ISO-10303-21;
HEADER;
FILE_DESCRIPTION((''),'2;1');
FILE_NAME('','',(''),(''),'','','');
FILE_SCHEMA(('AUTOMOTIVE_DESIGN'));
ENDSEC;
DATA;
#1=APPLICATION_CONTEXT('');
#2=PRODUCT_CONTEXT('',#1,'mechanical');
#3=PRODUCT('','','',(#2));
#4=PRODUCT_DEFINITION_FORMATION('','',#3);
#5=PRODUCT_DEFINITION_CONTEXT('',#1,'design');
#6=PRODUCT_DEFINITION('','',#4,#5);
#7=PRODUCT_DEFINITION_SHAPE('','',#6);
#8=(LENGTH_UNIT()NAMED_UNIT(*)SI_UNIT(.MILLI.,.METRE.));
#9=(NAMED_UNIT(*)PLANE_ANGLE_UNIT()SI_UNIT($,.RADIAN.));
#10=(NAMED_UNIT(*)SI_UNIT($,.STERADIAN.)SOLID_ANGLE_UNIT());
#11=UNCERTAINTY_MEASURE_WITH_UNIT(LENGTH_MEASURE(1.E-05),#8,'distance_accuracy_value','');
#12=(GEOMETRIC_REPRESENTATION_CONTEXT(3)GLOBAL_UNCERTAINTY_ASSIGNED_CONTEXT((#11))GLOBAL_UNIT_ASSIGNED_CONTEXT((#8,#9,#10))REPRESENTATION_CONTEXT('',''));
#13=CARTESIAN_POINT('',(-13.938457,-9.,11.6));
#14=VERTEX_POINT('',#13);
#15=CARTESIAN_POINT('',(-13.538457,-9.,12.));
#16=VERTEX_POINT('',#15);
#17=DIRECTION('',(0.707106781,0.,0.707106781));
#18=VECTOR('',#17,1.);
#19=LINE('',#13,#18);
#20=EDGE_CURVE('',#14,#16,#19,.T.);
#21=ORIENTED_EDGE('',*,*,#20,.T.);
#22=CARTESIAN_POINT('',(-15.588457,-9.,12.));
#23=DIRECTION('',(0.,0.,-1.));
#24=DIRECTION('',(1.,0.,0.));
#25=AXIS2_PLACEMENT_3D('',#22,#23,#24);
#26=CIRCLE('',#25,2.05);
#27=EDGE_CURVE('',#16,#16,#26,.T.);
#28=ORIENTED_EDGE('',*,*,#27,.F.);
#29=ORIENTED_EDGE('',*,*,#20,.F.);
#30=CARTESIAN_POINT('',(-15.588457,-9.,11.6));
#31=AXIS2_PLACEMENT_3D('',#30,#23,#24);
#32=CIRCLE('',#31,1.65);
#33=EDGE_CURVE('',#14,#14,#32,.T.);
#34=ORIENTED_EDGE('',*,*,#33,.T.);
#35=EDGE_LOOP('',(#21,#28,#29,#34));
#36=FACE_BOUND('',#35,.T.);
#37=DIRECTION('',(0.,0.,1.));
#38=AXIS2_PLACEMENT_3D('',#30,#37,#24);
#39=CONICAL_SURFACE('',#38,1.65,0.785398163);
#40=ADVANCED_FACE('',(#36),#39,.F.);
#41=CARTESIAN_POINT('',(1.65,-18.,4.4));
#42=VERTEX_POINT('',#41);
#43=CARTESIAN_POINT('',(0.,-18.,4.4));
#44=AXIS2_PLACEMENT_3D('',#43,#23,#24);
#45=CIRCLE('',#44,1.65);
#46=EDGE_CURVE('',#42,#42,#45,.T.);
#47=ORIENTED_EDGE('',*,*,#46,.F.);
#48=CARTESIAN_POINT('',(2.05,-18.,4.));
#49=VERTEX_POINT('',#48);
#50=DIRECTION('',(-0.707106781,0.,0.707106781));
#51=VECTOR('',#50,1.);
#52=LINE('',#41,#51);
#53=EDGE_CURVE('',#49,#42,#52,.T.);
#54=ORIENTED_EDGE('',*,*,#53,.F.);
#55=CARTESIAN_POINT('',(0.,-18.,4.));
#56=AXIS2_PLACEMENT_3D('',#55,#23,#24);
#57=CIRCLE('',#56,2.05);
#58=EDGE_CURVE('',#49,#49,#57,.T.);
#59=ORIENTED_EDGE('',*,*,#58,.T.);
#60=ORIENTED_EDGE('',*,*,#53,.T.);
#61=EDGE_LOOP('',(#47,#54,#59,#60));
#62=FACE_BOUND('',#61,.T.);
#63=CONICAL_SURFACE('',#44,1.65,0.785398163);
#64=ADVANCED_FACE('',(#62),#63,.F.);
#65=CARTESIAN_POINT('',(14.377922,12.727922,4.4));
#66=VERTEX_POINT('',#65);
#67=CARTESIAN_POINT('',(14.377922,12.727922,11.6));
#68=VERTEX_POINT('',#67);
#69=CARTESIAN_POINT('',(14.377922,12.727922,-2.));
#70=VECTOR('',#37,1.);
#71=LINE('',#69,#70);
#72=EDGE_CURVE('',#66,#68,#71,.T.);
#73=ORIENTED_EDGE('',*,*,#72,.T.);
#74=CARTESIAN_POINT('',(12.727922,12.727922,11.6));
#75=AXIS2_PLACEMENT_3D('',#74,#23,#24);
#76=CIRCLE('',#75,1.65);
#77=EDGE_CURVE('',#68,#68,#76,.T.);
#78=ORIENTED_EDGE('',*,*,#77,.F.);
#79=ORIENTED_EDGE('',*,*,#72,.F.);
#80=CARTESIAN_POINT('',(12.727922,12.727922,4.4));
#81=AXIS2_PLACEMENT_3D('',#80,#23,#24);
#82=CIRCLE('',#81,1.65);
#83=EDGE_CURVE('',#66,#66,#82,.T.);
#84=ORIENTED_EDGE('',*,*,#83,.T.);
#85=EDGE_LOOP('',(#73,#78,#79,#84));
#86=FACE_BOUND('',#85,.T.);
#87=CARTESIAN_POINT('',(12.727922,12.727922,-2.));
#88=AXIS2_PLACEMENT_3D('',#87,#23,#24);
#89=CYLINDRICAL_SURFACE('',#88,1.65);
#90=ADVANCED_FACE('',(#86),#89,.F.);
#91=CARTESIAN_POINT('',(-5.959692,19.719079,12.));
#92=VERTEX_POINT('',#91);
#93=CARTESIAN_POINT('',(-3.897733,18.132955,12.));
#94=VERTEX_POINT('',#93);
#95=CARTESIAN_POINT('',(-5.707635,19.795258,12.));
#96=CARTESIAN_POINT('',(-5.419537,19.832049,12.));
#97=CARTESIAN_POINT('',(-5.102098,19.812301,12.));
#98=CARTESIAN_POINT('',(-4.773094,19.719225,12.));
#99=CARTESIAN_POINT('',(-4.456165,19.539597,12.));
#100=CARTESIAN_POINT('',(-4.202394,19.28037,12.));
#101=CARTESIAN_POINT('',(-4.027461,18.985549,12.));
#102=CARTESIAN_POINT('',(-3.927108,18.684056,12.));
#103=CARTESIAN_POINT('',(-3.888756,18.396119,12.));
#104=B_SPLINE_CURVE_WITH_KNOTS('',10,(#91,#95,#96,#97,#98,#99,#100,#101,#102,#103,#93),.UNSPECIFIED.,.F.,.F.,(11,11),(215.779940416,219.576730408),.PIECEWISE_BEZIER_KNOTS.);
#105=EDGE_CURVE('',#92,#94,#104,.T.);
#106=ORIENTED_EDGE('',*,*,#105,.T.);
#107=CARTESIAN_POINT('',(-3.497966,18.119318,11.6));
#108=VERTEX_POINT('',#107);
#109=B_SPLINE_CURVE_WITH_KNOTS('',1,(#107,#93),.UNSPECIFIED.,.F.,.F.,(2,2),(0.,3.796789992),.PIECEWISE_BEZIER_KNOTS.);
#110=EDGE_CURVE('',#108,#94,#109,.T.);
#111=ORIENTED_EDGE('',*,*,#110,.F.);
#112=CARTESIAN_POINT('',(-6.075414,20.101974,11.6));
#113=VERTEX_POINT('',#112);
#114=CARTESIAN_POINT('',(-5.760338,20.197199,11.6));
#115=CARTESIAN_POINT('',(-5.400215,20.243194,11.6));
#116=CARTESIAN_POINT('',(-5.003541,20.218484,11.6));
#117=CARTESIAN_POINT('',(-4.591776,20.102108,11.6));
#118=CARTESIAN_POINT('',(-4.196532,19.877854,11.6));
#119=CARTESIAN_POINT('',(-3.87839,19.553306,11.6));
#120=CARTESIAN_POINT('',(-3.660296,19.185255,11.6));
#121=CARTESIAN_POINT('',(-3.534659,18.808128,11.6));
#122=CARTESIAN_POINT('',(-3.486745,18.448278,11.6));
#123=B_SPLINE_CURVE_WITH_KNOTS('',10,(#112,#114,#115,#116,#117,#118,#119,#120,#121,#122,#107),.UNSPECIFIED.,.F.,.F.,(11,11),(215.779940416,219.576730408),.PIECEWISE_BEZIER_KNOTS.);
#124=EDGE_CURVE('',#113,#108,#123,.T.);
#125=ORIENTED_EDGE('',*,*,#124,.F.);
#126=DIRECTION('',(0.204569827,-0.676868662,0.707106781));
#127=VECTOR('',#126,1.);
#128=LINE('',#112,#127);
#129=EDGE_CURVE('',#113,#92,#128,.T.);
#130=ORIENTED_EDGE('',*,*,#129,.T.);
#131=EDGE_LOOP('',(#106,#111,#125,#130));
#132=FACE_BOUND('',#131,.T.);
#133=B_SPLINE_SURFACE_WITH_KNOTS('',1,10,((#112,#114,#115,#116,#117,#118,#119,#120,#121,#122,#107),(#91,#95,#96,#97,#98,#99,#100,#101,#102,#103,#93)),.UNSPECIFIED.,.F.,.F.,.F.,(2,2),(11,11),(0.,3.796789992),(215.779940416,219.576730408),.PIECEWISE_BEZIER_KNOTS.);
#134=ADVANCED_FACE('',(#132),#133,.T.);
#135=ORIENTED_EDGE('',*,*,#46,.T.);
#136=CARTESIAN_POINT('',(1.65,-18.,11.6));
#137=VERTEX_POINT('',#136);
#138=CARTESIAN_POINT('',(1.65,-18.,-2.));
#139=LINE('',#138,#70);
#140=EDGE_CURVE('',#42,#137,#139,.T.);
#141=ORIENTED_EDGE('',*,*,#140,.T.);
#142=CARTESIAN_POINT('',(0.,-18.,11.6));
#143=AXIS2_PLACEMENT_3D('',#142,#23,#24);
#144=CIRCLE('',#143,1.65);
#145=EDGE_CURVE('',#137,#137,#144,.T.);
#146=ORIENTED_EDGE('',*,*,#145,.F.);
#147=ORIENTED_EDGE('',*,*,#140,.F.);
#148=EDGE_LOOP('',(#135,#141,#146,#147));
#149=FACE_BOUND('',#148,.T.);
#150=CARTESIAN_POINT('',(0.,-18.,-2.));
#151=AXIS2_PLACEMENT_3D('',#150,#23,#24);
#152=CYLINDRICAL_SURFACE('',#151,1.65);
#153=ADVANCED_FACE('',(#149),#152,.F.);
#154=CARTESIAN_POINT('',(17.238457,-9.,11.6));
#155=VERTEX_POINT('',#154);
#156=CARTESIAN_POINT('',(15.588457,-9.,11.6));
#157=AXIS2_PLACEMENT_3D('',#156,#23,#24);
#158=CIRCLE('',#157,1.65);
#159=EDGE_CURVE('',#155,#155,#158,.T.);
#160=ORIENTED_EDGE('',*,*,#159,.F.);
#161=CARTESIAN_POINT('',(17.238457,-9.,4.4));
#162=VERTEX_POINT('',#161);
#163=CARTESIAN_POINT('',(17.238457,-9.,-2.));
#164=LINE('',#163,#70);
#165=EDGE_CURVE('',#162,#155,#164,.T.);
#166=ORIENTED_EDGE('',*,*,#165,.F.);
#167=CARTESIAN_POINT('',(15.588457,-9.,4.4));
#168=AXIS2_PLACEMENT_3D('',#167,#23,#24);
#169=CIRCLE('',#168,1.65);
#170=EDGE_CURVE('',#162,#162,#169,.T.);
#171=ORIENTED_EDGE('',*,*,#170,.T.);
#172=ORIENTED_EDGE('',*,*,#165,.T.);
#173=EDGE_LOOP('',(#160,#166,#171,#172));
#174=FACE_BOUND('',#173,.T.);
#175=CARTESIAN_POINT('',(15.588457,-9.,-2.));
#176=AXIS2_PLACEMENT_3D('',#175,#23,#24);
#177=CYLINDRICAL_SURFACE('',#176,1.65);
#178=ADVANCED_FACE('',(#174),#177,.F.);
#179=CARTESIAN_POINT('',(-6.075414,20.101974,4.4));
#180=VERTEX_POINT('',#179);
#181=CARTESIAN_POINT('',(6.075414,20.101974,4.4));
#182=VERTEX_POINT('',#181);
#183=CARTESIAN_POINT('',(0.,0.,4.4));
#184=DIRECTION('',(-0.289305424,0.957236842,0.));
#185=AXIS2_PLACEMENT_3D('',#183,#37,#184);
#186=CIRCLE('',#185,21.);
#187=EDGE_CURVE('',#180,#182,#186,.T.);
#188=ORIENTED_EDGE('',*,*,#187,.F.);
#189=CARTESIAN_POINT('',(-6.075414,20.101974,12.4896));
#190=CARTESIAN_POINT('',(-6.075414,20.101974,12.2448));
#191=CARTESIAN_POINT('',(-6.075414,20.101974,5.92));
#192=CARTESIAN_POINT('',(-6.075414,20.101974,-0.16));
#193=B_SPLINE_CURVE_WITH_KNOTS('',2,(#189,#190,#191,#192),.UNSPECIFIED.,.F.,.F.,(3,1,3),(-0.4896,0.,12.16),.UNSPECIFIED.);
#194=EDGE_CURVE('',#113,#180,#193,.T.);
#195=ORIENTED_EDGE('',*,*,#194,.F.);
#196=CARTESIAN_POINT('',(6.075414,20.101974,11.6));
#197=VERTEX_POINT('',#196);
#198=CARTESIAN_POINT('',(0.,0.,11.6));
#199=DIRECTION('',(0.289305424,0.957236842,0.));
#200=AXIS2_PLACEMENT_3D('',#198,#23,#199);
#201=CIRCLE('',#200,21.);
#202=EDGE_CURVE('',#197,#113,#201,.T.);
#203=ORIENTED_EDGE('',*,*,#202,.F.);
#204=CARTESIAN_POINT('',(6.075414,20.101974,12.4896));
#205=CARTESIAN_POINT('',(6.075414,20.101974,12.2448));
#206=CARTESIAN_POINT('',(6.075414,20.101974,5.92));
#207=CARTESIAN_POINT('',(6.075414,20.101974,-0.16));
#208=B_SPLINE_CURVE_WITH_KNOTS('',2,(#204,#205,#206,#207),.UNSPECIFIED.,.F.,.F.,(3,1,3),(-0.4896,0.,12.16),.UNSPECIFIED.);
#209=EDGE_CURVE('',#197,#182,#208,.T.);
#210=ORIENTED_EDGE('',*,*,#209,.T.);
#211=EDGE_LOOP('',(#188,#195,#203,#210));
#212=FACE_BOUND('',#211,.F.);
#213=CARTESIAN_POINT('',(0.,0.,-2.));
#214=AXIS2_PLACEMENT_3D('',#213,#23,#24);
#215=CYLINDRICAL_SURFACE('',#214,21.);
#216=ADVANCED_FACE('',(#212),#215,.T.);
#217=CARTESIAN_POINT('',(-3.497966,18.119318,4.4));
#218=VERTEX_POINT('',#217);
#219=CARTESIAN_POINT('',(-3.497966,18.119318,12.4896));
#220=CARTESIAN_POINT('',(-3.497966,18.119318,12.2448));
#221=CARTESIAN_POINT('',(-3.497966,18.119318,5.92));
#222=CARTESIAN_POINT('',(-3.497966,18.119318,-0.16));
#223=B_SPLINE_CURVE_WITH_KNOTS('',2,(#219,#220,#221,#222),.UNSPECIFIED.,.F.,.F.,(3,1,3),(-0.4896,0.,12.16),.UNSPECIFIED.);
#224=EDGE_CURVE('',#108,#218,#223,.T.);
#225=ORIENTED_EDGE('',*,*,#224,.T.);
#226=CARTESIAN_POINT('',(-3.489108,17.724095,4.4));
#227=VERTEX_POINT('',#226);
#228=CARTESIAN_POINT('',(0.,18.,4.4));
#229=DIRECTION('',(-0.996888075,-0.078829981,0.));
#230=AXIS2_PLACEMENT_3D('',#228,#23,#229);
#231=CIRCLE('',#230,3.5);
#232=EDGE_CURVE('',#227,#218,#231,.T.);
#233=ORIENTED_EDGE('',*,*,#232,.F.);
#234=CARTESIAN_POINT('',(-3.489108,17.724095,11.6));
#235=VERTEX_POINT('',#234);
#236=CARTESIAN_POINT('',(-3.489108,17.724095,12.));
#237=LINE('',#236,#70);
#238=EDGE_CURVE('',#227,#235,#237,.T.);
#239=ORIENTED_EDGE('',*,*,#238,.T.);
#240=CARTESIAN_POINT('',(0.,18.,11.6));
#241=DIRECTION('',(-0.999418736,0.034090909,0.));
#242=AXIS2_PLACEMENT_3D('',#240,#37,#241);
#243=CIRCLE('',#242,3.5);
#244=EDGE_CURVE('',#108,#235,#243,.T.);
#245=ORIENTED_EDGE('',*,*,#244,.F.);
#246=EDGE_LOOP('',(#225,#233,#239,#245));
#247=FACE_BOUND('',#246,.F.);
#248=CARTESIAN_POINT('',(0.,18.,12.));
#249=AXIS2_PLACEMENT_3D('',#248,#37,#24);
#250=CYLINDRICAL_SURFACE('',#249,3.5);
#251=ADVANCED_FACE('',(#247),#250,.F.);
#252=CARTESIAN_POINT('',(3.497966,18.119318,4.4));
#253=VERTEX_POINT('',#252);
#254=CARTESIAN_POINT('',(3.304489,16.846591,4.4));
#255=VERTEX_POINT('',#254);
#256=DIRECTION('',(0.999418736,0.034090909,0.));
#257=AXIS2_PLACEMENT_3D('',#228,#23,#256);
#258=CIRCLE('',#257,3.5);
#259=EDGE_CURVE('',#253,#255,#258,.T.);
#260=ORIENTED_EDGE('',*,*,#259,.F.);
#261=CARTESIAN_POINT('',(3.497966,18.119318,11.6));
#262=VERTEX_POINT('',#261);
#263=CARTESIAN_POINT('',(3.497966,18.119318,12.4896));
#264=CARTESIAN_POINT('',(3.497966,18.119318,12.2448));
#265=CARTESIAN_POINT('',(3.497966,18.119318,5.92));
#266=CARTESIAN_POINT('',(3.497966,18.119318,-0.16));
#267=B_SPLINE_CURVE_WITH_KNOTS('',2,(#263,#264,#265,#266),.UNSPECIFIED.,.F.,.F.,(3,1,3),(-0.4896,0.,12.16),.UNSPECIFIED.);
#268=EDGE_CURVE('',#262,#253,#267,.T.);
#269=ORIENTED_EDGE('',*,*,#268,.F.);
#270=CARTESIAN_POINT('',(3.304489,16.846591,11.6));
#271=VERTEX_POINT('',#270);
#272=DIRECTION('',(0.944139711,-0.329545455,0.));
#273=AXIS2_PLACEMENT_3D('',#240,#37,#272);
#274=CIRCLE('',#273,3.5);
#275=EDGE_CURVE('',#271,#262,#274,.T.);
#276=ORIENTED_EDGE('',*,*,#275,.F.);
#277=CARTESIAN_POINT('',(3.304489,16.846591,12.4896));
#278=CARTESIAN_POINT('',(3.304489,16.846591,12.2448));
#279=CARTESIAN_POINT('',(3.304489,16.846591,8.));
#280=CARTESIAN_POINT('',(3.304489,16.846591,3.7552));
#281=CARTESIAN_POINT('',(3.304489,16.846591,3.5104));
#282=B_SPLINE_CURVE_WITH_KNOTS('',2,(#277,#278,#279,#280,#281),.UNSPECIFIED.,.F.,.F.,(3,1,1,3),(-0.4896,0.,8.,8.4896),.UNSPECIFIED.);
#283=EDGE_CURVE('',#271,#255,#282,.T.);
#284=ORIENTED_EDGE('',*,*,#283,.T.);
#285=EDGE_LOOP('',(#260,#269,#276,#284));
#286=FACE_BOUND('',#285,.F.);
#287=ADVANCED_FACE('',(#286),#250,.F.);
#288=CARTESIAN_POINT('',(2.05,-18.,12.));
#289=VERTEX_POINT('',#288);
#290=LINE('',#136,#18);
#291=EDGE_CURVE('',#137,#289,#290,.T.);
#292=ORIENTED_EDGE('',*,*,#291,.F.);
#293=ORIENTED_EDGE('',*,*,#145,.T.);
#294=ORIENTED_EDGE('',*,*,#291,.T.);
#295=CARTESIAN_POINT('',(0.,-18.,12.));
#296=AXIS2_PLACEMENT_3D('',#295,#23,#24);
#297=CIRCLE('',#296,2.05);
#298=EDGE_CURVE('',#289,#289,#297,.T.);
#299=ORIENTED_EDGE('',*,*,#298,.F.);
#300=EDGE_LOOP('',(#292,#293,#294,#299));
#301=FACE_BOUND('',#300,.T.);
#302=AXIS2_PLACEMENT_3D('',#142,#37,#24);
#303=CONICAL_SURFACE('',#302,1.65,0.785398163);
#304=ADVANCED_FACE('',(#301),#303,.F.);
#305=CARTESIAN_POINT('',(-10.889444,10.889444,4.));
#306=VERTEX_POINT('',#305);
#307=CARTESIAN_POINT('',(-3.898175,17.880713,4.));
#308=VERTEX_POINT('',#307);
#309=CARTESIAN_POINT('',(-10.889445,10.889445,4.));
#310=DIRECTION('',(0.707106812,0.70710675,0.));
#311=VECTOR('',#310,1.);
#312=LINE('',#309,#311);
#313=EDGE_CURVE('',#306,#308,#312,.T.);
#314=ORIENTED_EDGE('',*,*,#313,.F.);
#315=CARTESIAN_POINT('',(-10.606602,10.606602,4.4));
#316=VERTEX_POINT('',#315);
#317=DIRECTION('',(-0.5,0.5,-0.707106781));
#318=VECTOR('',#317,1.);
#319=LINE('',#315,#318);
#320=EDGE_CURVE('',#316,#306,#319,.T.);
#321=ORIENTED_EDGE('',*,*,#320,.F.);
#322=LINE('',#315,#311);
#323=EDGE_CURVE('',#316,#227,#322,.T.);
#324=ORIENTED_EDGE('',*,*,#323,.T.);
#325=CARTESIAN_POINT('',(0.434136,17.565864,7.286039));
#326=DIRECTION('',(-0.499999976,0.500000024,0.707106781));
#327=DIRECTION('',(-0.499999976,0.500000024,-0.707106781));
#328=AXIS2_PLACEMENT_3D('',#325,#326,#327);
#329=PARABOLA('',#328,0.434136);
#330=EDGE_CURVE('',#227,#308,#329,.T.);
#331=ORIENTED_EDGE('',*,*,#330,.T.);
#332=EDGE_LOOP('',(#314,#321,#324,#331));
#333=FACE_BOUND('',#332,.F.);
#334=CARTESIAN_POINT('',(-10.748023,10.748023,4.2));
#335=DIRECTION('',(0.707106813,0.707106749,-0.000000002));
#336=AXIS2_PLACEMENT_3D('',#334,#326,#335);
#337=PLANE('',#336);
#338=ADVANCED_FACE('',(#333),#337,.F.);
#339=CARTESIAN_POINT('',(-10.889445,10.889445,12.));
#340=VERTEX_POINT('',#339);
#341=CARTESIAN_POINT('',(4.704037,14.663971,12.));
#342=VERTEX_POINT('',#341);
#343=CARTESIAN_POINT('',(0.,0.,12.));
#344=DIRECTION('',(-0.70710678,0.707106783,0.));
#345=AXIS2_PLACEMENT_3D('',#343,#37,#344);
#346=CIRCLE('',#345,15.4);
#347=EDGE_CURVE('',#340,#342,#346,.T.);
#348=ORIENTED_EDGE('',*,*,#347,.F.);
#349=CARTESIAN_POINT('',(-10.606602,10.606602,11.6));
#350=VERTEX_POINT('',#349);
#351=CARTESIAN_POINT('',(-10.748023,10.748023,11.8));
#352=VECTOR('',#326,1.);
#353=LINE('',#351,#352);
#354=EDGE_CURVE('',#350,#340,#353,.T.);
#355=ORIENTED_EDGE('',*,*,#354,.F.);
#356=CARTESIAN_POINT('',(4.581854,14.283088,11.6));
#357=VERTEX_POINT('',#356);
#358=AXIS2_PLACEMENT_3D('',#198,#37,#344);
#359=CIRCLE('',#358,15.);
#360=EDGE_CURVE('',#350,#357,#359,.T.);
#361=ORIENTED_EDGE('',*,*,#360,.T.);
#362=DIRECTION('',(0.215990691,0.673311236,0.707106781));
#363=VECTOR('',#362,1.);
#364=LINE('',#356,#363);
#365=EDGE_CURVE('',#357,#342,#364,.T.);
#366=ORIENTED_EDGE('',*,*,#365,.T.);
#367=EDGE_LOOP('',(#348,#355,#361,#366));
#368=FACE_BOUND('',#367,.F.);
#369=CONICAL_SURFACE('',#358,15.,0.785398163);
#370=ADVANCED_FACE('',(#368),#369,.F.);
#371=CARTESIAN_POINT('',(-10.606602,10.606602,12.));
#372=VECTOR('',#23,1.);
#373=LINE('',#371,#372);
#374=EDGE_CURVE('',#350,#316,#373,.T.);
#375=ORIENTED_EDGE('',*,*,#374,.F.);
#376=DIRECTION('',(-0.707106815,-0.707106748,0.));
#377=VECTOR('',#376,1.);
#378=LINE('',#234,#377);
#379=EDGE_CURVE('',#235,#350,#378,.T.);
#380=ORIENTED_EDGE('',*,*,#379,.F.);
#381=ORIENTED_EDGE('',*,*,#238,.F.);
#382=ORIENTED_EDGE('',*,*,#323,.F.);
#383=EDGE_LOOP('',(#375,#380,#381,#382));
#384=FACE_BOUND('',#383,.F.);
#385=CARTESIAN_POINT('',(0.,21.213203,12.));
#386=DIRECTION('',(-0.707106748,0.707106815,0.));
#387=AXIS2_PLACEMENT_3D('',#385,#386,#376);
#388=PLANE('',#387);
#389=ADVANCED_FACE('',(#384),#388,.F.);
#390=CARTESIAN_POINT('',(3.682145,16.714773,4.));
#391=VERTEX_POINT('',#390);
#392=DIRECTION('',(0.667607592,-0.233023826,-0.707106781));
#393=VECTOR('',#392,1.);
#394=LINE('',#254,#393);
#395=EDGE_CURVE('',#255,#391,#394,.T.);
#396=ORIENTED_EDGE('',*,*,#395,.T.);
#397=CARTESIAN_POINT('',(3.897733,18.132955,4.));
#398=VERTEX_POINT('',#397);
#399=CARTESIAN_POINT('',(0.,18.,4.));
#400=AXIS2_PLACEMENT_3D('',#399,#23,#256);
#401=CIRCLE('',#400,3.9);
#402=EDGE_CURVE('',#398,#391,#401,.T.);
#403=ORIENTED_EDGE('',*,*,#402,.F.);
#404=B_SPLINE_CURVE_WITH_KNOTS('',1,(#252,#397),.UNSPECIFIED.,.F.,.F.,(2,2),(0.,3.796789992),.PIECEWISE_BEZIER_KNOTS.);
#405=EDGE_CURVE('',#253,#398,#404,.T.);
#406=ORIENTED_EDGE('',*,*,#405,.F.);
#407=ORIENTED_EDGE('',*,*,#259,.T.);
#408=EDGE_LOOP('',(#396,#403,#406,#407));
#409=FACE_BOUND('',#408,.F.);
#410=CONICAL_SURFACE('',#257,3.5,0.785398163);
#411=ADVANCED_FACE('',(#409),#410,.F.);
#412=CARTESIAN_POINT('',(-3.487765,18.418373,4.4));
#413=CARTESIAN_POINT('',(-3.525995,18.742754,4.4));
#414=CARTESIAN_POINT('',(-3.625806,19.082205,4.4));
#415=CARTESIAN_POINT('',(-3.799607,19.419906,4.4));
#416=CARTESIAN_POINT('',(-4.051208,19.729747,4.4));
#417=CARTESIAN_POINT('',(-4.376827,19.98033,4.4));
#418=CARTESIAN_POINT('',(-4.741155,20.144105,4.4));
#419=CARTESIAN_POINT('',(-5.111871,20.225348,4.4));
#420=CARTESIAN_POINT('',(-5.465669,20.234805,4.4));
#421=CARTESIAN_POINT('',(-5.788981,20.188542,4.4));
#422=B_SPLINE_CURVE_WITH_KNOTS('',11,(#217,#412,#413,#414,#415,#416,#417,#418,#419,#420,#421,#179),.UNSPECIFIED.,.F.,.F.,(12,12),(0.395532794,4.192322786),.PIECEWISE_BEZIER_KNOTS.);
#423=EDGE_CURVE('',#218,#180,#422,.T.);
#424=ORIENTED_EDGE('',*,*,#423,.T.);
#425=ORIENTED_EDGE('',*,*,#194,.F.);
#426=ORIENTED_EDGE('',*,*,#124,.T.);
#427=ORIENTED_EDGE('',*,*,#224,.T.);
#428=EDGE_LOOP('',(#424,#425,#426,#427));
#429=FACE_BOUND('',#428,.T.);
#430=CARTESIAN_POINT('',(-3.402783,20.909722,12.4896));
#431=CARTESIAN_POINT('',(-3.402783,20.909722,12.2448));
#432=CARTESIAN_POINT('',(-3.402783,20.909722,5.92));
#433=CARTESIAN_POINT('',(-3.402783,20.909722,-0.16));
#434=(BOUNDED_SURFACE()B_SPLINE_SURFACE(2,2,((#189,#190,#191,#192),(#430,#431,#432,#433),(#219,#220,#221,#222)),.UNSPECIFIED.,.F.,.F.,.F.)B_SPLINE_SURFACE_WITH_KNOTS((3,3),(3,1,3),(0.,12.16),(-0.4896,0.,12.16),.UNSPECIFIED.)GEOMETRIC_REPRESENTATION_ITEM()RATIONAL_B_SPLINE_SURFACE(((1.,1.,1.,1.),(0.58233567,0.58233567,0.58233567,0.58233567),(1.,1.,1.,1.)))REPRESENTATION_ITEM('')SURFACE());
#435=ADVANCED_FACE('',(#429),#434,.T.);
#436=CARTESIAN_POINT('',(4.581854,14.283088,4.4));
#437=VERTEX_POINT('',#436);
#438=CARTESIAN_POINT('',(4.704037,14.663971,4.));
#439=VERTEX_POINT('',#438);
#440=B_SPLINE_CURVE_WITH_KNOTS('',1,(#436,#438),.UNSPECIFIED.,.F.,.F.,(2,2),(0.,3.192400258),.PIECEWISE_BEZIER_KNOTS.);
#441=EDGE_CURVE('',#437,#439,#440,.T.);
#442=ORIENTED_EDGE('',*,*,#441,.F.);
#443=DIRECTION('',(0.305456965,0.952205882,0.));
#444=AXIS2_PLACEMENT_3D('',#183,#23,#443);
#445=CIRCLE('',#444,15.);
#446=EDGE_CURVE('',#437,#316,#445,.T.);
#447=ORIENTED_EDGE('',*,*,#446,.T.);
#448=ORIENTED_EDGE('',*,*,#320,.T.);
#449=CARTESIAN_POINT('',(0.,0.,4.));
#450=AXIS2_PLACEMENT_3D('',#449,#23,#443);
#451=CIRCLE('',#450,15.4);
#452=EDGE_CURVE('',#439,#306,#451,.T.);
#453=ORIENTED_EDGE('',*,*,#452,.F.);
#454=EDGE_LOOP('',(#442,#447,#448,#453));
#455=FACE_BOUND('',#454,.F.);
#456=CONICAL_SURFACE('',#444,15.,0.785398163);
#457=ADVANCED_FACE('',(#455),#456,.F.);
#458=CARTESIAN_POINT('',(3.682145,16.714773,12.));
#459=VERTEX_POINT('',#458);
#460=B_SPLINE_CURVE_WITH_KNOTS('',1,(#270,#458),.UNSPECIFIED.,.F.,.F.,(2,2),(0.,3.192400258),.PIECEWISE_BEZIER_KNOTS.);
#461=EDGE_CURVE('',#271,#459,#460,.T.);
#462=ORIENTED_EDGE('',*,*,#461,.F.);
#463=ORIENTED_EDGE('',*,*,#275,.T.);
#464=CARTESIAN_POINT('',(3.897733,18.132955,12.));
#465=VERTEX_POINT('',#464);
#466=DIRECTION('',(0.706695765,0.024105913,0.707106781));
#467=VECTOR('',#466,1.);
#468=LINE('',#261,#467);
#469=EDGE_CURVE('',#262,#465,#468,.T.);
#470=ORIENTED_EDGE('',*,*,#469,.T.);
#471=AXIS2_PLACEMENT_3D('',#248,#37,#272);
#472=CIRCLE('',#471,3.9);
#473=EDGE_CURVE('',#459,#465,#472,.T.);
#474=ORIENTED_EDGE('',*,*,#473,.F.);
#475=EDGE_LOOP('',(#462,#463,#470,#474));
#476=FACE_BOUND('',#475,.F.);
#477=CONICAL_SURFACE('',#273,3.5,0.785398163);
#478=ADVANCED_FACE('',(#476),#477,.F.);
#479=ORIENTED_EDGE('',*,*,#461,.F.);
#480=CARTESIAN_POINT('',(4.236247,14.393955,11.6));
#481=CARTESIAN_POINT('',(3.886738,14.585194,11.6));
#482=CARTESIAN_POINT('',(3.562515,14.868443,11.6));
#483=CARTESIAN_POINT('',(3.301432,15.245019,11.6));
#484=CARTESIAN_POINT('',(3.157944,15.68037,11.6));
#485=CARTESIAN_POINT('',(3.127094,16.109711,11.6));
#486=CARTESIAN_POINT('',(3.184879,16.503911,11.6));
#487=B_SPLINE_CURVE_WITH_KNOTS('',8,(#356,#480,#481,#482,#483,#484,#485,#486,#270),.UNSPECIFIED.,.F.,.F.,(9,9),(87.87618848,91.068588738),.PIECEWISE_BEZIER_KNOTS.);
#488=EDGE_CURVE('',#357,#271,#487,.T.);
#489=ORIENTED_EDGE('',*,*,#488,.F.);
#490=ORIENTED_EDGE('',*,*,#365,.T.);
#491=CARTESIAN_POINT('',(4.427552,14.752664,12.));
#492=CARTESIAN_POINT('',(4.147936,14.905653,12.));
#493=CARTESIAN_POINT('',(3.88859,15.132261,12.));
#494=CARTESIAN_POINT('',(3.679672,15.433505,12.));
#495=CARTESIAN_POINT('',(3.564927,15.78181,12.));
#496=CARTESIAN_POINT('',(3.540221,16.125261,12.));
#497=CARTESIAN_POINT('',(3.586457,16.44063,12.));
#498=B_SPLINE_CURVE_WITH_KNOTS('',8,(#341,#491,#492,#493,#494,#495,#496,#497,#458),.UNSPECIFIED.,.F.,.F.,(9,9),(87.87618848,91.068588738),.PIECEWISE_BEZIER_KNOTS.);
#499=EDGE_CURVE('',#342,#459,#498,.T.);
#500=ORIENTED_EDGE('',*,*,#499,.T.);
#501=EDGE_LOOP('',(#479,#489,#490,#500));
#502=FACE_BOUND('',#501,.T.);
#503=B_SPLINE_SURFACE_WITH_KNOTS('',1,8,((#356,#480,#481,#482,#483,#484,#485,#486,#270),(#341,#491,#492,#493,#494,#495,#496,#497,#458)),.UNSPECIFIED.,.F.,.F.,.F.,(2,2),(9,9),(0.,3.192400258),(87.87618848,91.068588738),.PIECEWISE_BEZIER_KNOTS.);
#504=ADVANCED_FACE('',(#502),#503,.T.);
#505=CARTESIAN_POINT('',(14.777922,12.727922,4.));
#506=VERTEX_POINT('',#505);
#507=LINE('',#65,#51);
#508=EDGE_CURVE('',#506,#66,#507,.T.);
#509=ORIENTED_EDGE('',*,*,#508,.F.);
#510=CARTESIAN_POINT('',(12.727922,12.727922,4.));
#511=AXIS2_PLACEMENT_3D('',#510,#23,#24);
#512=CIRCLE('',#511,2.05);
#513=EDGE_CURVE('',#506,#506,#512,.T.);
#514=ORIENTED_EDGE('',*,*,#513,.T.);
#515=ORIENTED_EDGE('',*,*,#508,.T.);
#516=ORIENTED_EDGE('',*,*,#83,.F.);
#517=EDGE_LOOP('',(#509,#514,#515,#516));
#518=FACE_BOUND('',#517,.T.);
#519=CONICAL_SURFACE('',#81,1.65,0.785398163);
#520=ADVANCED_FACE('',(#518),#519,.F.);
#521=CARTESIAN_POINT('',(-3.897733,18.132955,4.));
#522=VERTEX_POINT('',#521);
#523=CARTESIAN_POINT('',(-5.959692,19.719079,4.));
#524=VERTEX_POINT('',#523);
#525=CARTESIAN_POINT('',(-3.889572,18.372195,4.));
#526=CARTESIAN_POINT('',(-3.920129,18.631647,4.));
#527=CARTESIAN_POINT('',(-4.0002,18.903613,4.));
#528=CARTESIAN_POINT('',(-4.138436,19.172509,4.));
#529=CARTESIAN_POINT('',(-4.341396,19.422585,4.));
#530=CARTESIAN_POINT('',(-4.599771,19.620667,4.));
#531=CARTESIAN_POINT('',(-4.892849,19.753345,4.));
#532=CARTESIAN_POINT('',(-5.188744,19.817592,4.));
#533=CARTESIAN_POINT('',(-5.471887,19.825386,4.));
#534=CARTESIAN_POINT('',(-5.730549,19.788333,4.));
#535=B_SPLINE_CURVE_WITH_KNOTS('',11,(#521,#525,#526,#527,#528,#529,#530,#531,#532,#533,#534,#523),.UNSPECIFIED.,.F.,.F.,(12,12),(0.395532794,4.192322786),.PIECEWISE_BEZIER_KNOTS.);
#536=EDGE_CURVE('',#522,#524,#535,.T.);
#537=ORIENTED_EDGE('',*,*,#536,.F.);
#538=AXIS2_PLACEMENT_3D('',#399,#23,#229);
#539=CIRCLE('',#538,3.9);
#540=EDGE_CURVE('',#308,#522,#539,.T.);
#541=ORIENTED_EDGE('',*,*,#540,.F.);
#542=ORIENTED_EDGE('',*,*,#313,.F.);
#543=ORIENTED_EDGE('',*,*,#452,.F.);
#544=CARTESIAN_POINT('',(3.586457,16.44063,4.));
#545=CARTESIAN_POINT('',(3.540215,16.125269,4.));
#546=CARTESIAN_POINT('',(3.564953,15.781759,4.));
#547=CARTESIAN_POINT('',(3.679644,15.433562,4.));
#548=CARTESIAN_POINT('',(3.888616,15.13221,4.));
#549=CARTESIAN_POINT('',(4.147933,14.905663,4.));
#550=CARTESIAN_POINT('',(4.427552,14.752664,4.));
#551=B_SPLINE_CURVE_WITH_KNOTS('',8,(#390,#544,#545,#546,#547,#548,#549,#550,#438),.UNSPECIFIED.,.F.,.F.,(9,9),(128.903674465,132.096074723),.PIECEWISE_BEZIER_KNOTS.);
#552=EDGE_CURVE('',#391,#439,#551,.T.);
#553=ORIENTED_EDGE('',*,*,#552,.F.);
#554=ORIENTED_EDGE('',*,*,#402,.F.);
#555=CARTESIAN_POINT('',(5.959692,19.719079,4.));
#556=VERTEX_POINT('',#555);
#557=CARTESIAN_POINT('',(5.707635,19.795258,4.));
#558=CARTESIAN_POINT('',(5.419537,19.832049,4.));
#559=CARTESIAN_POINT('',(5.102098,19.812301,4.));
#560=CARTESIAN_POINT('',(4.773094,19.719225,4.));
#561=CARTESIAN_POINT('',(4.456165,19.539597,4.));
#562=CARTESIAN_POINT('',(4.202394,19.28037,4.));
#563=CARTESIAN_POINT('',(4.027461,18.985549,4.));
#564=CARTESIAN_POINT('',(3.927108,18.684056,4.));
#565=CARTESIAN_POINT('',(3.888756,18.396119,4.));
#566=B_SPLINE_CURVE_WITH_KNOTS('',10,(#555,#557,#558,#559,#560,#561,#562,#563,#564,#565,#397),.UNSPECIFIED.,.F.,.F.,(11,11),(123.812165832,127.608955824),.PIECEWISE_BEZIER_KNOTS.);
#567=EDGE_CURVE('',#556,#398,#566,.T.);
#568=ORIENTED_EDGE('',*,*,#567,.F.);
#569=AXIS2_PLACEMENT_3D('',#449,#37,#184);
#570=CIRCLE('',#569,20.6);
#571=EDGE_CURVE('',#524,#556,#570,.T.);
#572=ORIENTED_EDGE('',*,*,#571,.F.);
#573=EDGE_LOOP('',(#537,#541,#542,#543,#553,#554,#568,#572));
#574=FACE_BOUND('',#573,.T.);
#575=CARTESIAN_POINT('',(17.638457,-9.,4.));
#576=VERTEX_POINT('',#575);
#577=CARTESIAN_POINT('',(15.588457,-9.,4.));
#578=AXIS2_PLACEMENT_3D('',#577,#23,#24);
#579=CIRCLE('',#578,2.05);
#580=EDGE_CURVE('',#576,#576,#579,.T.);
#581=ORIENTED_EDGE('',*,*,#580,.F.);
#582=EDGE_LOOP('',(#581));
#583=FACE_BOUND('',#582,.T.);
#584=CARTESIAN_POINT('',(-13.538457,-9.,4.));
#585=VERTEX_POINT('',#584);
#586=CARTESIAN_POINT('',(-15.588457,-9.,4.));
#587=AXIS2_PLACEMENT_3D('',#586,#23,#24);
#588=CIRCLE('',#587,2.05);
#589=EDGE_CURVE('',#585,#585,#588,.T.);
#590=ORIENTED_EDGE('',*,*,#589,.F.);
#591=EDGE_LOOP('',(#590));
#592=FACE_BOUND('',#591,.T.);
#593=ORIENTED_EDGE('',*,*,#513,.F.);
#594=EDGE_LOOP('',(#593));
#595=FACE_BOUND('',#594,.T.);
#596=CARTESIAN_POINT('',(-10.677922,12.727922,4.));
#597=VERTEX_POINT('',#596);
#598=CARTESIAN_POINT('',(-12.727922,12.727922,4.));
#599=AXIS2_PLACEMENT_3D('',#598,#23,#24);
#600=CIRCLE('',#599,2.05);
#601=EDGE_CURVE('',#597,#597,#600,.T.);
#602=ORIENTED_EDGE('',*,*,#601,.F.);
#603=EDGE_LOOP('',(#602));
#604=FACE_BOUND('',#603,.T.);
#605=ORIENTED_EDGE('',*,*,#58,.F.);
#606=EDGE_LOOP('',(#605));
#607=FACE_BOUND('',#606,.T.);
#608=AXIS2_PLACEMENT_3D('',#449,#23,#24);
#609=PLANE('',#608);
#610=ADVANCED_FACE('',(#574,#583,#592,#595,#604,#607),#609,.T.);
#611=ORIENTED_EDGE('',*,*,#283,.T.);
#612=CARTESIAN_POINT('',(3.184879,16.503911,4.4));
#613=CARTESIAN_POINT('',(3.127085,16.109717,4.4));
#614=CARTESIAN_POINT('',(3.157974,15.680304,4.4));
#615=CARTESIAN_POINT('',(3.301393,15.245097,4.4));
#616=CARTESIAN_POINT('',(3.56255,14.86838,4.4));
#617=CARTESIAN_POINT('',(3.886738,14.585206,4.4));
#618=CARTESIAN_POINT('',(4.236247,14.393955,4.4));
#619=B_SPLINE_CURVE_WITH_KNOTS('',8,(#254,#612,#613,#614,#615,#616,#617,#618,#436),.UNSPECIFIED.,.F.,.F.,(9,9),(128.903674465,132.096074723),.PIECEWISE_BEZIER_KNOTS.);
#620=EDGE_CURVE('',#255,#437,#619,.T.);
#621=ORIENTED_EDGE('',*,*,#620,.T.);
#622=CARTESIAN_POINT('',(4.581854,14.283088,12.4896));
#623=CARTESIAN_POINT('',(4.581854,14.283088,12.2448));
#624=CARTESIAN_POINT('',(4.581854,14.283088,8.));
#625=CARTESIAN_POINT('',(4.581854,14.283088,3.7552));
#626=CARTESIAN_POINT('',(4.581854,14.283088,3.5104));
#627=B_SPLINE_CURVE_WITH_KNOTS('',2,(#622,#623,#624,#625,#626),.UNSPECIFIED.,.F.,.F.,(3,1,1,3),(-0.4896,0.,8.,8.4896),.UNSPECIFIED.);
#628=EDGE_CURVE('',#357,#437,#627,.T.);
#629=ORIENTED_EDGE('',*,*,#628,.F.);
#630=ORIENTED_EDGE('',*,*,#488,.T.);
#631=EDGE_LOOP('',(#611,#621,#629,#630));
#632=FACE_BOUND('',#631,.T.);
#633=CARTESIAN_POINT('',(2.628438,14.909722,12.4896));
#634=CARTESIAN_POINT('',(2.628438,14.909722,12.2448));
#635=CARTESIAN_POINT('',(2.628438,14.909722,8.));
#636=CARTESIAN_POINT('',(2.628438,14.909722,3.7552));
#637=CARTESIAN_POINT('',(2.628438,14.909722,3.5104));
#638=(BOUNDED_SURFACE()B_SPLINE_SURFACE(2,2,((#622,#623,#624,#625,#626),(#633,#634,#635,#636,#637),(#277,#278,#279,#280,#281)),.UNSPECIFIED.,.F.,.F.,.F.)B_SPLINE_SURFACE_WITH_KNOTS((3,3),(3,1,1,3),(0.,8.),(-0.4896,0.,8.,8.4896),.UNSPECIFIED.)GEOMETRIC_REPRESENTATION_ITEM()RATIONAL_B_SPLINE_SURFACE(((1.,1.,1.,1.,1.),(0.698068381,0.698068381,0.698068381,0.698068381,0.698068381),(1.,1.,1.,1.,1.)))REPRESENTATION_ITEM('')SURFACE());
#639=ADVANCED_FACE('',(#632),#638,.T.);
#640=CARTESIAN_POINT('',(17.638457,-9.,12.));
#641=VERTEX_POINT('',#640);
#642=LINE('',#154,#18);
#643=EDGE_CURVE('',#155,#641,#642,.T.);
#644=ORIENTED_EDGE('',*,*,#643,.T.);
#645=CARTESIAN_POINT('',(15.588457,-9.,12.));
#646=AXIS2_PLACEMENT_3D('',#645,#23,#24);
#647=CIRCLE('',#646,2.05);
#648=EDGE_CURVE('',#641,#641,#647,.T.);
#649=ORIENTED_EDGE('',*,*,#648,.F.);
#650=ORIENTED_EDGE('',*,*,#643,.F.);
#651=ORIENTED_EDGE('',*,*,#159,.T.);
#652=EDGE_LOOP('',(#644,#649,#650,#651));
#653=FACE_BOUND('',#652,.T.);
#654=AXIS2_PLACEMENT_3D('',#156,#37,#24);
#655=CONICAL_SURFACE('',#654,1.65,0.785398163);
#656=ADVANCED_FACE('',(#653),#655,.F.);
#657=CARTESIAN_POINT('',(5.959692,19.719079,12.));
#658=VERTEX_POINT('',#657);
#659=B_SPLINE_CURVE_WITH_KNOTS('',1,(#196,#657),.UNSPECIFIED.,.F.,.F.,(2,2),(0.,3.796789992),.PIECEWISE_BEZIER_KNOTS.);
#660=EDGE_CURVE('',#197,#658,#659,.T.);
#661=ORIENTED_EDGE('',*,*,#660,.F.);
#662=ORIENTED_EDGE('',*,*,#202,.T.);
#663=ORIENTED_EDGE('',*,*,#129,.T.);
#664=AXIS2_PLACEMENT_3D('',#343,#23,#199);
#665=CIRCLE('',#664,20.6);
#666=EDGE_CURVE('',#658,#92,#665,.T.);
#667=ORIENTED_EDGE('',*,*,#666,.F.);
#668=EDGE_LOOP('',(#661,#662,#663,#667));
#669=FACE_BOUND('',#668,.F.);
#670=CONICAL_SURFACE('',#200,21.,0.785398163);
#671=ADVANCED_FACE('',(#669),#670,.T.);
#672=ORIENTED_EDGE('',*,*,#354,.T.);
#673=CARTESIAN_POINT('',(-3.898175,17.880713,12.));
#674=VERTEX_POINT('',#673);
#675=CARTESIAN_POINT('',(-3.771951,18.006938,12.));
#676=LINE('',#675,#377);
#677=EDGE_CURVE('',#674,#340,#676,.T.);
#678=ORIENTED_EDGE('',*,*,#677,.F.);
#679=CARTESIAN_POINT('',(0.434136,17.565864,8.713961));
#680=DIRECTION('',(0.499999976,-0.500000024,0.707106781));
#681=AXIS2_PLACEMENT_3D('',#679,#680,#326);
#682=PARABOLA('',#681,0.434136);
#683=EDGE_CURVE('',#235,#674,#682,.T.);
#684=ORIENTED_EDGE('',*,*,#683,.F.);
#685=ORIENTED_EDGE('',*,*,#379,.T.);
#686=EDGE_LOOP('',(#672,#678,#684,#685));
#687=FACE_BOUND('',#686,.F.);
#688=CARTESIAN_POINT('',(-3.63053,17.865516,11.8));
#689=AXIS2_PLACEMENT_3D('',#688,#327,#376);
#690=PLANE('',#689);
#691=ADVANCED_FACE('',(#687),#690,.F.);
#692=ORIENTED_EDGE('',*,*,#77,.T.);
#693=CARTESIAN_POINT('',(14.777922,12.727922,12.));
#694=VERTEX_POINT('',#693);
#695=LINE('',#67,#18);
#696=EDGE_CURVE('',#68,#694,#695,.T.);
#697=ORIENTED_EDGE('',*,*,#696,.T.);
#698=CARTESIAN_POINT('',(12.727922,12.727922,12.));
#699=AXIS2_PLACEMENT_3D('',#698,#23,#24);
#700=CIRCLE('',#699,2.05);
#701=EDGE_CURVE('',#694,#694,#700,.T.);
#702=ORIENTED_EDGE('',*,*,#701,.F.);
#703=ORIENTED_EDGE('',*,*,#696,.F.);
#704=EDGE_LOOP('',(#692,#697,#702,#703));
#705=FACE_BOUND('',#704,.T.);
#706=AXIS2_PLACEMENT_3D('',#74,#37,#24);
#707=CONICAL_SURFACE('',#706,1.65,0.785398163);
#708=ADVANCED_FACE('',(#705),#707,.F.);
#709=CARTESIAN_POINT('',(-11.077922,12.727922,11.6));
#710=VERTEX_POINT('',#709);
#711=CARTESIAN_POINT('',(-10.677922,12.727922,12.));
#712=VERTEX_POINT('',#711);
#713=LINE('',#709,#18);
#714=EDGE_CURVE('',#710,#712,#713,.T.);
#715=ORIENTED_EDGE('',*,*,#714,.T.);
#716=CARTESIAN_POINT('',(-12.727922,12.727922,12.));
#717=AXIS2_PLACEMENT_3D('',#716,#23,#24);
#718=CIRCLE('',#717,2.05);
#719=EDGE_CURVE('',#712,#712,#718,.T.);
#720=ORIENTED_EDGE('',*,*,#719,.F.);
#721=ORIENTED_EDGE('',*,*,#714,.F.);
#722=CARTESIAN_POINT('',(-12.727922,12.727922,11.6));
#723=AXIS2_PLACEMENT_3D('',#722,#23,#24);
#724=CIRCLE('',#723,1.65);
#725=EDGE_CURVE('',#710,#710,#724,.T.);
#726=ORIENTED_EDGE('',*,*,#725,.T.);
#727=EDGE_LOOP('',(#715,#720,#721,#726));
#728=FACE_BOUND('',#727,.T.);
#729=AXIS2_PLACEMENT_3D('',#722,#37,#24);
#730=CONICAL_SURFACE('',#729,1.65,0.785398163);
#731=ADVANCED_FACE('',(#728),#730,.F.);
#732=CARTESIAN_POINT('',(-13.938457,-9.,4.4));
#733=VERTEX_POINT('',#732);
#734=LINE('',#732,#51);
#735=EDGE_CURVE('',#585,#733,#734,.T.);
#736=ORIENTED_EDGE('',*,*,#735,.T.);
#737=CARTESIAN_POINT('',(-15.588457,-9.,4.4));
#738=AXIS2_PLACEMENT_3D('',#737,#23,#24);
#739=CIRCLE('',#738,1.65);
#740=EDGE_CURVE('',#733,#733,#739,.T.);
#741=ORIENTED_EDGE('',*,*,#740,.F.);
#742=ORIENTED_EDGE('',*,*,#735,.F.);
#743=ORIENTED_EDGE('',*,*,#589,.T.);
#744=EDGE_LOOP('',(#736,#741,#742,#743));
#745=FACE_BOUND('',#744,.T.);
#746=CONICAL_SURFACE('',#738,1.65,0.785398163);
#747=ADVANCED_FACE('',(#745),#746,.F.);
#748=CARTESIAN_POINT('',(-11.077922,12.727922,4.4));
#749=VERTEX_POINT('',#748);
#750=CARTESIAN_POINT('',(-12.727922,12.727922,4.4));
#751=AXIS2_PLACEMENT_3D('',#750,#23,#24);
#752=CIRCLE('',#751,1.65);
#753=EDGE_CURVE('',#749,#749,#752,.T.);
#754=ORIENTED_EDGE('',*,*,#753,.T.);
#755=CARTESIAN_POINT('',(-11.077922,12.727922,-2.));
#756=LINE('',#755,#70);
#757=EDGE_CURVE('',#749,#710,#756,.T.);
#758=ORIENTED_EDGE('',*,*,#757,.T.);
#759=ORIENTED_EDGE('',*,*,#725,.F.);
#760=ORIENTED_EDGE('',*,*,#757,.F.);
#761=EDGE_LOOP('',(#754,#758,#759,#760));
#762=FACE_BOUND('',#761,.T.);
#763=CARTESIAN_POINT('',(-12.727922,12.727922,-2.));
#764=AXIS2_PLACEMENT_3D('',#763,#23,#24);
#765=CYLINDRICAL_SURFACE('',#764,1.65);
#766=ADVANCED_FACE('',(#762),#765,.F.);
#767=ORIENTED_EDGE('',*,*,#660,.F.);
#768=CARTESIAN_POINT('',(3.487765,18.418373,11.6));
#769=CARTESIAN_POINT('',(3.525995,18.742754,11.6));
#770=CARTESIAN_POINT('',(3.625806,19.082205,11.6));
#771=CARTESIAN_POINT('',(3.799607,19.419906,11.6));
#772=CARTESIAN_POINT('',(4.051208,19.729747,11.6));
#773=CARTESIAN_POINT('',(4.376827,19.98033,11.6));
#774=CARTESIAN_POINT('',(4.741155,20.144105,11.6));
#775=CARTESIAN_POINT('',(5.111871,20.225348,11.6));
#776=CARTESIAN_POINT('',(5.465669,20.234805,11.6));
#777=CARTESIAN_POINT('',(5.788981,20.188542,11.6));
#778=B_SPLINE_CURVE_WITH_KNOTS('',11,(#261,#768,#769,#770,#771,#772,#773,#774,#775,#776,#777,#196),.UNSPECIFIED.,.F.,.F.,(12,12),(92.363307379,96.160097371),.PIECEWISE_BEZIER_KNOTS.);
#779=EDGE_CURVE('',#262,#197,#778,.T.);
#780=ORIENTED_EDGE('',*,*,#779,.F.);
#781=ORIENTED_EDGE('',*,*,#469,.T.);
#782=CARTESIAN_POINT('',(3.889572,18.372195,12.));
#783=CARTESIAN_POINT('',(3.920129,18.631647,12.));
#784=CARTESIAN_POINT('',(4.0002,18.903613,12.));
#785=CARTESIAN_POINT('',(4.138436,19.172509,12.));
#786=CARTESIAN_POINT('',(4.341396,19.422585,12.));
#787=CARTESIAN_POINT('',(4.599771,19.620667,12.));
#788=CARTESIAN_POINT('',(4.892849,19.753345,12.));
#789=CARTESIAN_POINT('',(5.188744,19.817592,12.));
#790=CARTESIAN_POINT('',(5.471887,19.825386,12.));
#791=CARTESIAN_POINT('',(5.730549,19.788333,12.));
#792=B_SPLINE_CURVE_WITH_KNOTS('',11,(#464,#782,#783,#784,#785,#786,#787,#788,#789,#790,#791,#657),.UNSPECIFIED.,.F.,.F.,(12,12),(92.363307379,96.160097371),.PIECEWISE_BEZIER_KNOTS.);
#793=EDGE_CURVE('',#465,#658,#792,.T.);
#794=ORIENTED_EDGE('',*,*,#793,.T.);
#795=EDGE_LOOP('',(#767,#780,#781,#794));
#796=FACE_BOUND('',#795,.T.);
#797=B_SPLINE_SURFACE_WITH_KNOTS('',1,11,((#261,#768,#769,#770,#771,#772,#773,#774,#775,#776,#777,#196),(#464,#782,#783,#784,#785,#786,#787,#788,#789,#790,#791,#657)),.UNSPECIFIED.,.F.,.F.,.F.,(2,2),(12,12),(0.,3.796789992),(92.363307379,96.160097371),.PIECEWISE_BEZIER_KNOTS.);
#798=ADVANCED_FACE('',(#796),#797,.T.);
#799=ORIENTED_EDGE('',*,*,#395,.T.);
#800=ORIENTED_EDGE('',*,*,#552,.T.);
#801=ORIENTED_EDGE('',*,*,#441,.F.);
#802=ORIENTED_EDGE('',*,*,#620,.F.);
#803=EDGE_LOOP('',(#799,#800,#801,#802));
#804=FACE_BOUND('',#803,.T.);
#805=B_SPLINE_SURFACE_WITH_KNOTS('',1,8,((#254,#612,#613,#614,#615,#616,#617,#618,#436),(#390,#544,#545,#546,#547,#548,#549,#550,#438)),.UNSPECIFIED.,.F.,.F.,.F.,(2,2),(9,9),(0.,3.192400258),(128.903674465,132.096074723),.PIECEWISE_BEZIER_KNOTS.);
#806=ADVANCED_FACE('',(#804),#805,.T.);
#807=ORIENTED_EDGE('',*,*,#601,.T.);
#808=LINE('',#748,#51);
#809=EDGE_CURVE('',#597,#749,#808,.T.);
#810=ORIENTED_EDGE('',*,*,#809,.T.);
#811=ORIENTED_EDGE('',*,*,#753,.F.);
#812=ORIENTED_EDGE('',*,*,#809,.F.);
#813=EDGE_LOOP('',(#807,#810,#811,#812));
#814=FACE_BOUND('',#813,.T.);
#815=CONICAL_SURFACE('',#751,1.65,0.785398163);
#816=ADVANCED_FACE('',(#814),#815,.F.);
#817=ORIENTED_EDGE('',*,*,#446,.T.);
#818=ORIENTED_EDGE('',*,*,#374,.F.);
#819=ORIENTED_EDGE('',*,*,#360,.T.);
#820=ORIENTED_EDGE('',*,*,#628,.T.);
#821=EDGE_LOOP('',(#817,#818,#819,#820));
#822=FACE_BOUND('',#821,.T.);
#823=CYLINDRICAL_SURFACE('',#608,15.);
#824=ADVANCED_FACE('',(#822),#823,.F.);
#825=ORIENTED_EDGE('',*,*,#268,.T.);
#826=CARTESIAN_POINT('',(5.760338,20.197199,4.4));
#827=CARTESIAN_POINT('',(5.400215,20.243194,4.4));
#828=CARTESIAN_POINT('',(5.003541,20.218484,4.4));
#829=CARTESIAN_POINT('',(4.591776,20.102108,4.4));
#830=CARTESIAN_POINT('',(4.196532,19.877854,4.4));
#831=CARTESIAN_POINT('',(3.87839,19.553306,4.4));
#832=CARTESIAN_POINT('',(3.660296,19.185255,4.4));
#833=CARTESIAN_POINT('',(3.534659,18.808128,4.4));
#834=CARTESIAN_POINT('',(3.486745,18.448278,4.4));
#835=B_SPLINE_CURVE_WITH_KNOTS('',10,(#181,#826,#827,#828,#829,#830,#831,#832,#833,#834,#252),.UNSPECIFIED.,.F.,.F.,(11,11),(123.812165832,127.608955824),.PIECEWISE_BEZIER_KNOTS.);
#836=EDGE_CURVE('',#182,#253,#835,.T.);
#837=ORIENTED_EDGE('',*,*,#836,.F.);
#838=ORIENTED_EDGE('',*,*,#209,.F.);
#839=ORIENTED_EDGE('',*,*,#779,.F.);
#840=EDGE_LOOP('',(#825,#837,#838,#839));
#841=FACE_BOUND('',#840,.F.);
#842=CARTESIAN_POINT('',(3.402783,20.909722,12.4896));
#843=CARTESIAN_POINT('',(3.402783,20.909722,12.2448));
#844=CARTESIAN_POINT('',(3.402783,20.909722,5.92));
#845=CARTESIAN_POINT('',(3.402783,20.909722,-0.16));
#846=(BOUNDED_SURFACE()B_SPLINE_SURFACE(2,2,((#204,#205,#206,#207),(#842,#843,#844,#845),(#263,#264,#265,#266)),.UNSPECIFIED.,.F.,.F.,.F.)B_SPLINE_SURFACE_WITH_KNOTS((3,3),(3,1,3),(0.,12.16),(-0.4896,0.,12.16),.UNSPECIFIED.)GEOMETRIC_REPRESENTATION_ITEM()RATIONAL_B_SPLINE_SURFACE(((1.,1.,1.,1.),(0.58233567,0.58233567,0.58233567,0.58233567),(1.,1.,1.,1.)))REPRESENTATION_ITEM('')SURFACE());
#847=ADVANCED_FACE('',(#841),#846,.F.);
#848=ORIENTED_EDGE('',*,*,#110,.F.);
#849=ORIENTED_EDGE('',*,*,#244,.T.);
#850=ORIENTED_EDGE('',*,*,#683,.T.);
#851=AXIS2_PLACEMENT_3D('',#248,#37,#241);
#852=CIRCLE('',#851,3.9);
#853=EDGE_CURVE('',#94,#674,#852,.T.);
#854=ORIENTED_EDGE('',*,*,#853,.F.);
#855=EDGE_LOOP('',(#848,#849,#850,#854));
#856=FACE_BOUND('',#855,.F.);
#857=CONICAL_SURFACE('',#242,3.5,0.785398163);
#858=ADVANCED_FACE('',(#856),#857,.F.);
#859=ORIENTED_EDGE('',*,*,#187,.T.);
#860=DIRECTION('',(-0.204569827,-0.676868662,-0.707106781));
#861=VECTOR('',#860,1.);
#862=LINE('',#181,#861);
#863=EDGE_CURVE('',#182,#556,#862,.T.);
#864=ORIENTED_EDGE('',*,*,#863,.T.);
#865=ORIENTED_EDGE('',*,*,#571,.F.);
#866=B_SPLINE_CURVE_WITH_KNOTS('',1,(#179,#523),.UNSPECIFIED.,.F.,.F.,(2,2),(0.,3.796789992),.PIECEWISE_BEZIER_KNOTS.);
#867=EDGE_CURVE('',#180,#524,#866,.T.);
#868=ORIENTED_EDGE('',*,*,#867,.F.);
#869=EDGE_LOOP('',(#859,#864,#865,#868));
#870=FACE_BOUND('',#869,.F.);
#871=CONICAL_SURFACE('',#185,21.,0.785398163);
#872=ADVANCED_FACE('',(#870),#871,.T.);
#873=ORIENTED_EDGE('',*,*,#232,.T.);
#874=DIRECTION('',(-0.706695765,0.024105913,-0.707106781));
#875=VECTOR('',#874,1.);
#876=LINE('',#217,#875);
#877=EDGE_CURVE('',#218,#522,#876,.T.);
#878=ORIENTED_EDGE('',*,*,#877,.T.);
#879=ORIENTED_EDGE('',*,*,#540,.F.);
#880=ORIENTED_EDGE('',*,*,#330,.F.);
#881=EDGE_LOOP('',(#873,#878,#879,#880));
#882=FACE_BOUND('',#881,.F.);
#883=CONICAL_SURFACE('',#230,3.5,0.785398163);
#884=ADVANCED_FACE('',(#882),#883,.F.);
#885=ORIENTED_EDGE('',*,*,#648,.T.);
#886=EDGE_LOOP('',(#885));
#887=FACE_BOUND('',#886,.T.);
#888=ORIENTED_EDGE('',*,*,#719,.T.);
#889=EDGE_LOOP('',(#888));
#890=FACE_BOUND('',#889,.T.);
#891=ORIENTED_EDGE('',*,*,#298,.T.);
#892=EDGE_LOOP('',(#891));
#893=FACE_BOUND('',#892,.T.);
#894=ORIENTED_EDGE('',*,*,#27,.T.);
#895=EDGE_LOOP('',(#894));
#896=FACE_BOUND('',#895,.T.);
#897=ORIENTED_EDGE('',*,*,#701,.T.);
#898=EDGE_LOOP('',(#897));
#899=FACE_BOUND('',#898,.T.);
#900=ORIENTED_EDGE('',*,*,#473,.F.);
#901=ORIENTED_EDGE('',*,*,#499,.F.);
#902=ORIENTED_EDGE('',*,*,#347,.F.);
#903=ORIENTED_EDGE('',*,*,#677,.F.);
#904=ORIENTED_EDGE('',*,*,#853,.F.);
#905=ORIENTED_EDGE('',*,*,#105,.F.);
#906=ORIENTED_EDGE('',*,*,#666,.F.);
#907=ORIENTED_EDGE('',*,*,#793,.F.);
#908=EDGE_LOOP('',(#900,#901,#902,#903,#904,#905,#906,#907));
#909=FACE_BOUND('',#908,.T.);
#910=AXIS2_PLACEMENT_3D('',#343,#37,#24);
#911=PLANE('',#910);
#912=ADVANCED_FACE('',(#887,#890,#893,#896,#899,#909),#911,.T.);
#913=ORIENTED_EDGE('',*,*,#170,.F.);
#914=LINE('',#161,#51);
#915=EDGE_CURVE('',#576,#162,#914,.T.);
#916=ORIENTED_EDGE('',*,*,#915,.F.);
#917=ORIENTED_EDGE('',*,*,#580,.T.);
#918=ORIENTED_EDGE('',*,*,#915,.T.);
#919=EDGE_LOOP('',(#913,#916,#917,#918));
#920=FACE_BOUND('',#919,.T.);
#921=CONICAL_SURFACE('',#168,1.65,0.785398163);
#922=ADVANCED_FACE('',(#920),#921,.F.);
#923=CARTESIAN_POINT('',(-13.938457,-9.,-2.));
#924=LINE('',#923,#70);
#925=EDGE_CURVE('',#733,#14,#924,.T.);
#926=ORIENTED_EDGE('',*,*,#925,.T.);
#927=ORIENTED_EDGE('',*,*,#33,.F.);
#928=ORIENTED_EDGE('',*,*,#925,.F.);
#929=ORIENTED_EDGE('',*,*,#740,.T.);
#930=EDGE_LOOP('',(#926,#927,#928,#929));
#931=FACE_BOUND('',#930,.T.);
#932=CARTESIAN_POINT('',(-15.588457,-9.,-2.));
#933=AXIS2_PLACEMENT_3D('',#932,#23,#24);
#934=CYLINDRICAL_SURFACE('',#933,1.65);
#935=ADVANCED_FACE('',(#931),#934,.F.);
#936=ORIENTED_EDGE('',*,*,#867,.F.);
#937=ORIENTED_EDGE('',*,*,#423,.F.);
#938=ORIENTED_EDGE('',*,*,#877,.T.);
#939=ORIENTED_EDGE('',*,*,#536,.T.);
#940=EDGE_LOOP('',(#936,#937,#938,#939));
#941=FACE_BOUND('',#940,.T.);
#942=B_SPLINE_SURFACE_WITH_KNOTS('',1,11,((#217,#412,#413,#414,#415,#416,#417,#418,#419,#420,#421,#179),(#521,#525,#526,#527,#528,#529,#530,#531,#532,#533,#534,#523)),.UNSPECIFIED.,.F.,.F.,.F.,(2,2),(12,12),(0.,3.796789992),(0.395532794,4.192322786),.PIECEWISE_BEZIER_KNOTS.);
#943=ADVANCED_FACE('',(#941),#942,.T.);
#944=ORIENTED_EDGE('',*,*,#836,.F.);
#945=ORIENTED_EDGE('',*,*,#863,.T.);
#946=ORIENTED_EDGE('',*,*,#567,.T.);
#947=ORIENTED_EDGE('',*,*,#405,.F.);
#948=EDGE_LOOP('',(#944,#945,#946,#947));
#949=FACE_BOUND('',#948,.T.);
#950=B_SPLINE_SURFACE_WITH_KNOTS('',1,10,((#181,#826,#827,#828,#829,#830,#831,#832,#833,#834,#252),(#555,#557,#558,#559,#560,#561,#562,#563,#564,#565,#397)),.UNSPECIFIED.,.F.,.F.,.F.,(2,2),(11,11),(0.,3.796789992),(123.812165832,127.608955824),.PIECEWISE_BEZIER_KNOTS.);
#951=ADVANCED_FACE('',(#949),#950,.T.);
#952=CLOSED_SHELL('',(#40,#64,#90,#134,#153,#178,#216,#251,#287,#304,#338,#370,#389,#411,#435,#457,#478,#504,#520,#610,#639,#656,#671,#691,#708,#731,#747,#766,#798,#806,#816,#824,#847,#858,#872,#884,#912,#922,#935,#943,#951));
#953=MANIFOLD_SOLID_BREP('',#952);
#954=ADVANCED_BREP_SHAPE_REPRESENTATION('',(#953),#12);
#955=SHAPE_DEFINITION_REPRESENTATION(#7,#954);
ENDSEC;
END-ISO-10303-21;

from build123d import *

# Parameters (mm, degrees)
SKETCH_R                    = 21
PAD_DEPTH                   = 14
SKETCH001_R                 = 9.05
POCKET_DEPTH                = 4
SKETCH002_R                 = 8.05
POCKET001_DEPTH             = 14.001
SKETCH003_R                 = 15
POCKET002_DEPTH             = 8.001
POCKET003_DEPTH             = 8
SKETCH005_R                 = 3.5
POCKET004_DEPTH             = 8
FILLET_R                    = 2
SKETCH006_R                 = 4
PAD001_DEPTH                = 6
SKETCH007_R                 = 1.65
POCKET005_DEPTH             = 14.001
SKETCH046_R                 = 25
POCKET031_DEPTH             = 6
CHAMFER003068012002052_SIZE = 0.4


with BuildPart() as part:
    # Sketch → Pad (new body)
    with BuildSketch(Plane.XY):
        Circle(SKETCH_R)
    extrude(amount=PAD_DEPTH)

    # Sketch001 (on DatumPlane) → Pocket (cut)
    with BuildSketch(Plane.XY):
        Circle(SKETCH001_R)
    extrude(amount=POCKET_DEPTH, mode=Mode.SUBTRACT)

    # Sketch002 (on DatumPlane) → Pocket001 (cut, through all)
    with BuildSketch(Plane.XY):
        Circle(SKETCH002_R)
    extrude(amount=POCKET001_DEPTH, mode=Mode.SUBTRACT)

    # Sketch003 (on DatumPlane) → Pocket002 (cut, through all)
    with BuildSketch(Plane.XY.offset(6)):
        Circle(SKETCH003_R)
    extrude(amount=POCKET002_DEPTH, mode=Mode.SUBTRACT)

    # Sketch004 (on DatumPlane) → Pocket003 (cut)
    with BuildSketch(Plane.XY.offset(14)):
        Polygon((-10.606602, 10.606602), (0, 10.606602), (0, 21.213203), align=None)
    extrude(amount=-POCKET003_DEPTH, mode=Mode.SUBTRACT)

    # Sketch005 (on DatumPlane) → Pocket004 (cut)
    with BuildSketch(Plane.XY.offset(14)):
        with Locations((0, 18)):
            Circle(SKETCH005_R)
    extrude(amount=-POCKET004_DEPTH, mode=Mode.SUBTRACT)

    # Fillet
    fillet_edges = [part.edges().sort_by_distance(p)[0] for p in [
        (-1.945126, 20.909722, 10),
        (1.945126, 20.909722, 10),
        (1.643223, 14.909722, 10),
    ]]
    fillet(fillet_edges, radius=FILLET_R)

    # Sketch006 (on DatumPlane) → Pad001 (join)
    with BuildSketch(Plane.XY):
        with Locations((0, 18)):
            Circle(SKETCH006_R)
        with Locations((-12.727922, 12.727922)):
            Circle(SKETCH006_R)
        with Locations((12.727922, 12.727922)):
            Circle(SKETCH006_R)
        with Locations((-15.588457, -9)):
            Circle(SKETCH006_R)
        with Locations((15.588457, -9)):
            Circle(SKETCH006_R)
    extrude(amount=PAD001_DEPTH)

    # Sketch007 (on DatumPlane) → Pocket005 (cut, through all)
    with BuildSketch(Plane.XY):
        with Locations((-12.727922, 12.727922)):
            Circle(SKETCH007_R)
        with Locations((12.727922, 12.727922)):
            Circle(SKETCH007_R)
        with Locations((0, 18)):
            Circle(SKETCH007_R)
        with Locations((-15.588457, -9)):
            Circle(SKETCH007_R)
        with Locations((15.588457, -9)):
            Circle(SKETCH007_R)
        with Locations((0, -18)):
            Circle(SKETCH007_R)
    extrude(amount=POCKET005_DEPTH, mode=Mode.SUBTRACT)

    # Sketch046 (on Face5 of Pocket005) → Pocket031 (cut)
    with BuildSketch(Plane(origin=(0, 0, 0), x_dir=(1, 0, 0), z_dir=(0, 0, -1))):
        Circle(SKETCH046_R)
    extrude(amount=-POCKET031_DEPTH, mode=Mode.SUBTRACT)

    # Chamfer003068012002052
    chamfer003068012002052_edges = [part.edges().sort_by_distance(p)[0] for p in [
        (-3.499121, 17.921582, 14),
        (-4.27738, 19.772747, 14),
        (-7.047855, 14.165348, 14),
        (-12.518313, -16.860956, 14),
        (-5.740251, -13.858193, 14),
        (16.860956, 12.518313, 14),
        (12.118742, 8.839462, 14),
        (4.27738, 19.772747, 14),
        (3.402691, 15.295524, 14),
        (3.499491, 18.059668, 14),
        (3.450776, 17.415069, 14),
        (-1.65, -18, 14),
        (-17.238457, -9, 14),
        (13.938457, -9, 14),
        (-14.377922, 12.727922, 14),
        (11.077922, 12.727922, 14),
        (-9.535985, 18.710024, 6),
        (-14.849242, 14.849242, 6),
        (-20.820342, 2.74105, 6),
        (-18.186533, -10.5, 6),
        (0, -21, 6),
        (18.186533, -10.5, 6),
        (20.607252, -4.042422, 6),
        (19.903312, 6.697625, 6),
        (14.849242, 14.849242, 6),
        (9.535985, 18.710024, 6),
        (4.27738, 19.772747, 6),
        (3.499491, 18.059668, 6),
        (3.450776, 17.415069, 6),
        (3.402691, 15.295524, 6),
        (6.75734, 13.391727, 6),
        (10.606602, 10.606602, 6),
        (14.275343, 4.605928, 6),
        (14.75441, -2.703217, 6),
        (12.990381, -7.5, 6),
        (0, -15, 6),
        (-12.990381, -7.5, 6),
        (-14.871673, 1.957893, 6),
        (-11.426085, 9.71826, 6),
        (-7.047855, 14.165348, 6),
        (-3.499121, 17.921582, 6),
        (-4.27738, 19.772747, 6),
        (13.938457, -9, 6),
        (-1.65, -18, 6),
        (-17.238457, -9, 6),
        (11.077922, 12.727922, 6),
        (-14.377922, 12.727922, 6),
    ]]
    chamfer(chamfer003068012002052_edges, length=CHAMFER003068012002052_SIZE)


with BuildPart() as part_1:
    # Body placement: moved
    add(part.part.moved(Location((0, 0, -2))))


solid = part_1.part
